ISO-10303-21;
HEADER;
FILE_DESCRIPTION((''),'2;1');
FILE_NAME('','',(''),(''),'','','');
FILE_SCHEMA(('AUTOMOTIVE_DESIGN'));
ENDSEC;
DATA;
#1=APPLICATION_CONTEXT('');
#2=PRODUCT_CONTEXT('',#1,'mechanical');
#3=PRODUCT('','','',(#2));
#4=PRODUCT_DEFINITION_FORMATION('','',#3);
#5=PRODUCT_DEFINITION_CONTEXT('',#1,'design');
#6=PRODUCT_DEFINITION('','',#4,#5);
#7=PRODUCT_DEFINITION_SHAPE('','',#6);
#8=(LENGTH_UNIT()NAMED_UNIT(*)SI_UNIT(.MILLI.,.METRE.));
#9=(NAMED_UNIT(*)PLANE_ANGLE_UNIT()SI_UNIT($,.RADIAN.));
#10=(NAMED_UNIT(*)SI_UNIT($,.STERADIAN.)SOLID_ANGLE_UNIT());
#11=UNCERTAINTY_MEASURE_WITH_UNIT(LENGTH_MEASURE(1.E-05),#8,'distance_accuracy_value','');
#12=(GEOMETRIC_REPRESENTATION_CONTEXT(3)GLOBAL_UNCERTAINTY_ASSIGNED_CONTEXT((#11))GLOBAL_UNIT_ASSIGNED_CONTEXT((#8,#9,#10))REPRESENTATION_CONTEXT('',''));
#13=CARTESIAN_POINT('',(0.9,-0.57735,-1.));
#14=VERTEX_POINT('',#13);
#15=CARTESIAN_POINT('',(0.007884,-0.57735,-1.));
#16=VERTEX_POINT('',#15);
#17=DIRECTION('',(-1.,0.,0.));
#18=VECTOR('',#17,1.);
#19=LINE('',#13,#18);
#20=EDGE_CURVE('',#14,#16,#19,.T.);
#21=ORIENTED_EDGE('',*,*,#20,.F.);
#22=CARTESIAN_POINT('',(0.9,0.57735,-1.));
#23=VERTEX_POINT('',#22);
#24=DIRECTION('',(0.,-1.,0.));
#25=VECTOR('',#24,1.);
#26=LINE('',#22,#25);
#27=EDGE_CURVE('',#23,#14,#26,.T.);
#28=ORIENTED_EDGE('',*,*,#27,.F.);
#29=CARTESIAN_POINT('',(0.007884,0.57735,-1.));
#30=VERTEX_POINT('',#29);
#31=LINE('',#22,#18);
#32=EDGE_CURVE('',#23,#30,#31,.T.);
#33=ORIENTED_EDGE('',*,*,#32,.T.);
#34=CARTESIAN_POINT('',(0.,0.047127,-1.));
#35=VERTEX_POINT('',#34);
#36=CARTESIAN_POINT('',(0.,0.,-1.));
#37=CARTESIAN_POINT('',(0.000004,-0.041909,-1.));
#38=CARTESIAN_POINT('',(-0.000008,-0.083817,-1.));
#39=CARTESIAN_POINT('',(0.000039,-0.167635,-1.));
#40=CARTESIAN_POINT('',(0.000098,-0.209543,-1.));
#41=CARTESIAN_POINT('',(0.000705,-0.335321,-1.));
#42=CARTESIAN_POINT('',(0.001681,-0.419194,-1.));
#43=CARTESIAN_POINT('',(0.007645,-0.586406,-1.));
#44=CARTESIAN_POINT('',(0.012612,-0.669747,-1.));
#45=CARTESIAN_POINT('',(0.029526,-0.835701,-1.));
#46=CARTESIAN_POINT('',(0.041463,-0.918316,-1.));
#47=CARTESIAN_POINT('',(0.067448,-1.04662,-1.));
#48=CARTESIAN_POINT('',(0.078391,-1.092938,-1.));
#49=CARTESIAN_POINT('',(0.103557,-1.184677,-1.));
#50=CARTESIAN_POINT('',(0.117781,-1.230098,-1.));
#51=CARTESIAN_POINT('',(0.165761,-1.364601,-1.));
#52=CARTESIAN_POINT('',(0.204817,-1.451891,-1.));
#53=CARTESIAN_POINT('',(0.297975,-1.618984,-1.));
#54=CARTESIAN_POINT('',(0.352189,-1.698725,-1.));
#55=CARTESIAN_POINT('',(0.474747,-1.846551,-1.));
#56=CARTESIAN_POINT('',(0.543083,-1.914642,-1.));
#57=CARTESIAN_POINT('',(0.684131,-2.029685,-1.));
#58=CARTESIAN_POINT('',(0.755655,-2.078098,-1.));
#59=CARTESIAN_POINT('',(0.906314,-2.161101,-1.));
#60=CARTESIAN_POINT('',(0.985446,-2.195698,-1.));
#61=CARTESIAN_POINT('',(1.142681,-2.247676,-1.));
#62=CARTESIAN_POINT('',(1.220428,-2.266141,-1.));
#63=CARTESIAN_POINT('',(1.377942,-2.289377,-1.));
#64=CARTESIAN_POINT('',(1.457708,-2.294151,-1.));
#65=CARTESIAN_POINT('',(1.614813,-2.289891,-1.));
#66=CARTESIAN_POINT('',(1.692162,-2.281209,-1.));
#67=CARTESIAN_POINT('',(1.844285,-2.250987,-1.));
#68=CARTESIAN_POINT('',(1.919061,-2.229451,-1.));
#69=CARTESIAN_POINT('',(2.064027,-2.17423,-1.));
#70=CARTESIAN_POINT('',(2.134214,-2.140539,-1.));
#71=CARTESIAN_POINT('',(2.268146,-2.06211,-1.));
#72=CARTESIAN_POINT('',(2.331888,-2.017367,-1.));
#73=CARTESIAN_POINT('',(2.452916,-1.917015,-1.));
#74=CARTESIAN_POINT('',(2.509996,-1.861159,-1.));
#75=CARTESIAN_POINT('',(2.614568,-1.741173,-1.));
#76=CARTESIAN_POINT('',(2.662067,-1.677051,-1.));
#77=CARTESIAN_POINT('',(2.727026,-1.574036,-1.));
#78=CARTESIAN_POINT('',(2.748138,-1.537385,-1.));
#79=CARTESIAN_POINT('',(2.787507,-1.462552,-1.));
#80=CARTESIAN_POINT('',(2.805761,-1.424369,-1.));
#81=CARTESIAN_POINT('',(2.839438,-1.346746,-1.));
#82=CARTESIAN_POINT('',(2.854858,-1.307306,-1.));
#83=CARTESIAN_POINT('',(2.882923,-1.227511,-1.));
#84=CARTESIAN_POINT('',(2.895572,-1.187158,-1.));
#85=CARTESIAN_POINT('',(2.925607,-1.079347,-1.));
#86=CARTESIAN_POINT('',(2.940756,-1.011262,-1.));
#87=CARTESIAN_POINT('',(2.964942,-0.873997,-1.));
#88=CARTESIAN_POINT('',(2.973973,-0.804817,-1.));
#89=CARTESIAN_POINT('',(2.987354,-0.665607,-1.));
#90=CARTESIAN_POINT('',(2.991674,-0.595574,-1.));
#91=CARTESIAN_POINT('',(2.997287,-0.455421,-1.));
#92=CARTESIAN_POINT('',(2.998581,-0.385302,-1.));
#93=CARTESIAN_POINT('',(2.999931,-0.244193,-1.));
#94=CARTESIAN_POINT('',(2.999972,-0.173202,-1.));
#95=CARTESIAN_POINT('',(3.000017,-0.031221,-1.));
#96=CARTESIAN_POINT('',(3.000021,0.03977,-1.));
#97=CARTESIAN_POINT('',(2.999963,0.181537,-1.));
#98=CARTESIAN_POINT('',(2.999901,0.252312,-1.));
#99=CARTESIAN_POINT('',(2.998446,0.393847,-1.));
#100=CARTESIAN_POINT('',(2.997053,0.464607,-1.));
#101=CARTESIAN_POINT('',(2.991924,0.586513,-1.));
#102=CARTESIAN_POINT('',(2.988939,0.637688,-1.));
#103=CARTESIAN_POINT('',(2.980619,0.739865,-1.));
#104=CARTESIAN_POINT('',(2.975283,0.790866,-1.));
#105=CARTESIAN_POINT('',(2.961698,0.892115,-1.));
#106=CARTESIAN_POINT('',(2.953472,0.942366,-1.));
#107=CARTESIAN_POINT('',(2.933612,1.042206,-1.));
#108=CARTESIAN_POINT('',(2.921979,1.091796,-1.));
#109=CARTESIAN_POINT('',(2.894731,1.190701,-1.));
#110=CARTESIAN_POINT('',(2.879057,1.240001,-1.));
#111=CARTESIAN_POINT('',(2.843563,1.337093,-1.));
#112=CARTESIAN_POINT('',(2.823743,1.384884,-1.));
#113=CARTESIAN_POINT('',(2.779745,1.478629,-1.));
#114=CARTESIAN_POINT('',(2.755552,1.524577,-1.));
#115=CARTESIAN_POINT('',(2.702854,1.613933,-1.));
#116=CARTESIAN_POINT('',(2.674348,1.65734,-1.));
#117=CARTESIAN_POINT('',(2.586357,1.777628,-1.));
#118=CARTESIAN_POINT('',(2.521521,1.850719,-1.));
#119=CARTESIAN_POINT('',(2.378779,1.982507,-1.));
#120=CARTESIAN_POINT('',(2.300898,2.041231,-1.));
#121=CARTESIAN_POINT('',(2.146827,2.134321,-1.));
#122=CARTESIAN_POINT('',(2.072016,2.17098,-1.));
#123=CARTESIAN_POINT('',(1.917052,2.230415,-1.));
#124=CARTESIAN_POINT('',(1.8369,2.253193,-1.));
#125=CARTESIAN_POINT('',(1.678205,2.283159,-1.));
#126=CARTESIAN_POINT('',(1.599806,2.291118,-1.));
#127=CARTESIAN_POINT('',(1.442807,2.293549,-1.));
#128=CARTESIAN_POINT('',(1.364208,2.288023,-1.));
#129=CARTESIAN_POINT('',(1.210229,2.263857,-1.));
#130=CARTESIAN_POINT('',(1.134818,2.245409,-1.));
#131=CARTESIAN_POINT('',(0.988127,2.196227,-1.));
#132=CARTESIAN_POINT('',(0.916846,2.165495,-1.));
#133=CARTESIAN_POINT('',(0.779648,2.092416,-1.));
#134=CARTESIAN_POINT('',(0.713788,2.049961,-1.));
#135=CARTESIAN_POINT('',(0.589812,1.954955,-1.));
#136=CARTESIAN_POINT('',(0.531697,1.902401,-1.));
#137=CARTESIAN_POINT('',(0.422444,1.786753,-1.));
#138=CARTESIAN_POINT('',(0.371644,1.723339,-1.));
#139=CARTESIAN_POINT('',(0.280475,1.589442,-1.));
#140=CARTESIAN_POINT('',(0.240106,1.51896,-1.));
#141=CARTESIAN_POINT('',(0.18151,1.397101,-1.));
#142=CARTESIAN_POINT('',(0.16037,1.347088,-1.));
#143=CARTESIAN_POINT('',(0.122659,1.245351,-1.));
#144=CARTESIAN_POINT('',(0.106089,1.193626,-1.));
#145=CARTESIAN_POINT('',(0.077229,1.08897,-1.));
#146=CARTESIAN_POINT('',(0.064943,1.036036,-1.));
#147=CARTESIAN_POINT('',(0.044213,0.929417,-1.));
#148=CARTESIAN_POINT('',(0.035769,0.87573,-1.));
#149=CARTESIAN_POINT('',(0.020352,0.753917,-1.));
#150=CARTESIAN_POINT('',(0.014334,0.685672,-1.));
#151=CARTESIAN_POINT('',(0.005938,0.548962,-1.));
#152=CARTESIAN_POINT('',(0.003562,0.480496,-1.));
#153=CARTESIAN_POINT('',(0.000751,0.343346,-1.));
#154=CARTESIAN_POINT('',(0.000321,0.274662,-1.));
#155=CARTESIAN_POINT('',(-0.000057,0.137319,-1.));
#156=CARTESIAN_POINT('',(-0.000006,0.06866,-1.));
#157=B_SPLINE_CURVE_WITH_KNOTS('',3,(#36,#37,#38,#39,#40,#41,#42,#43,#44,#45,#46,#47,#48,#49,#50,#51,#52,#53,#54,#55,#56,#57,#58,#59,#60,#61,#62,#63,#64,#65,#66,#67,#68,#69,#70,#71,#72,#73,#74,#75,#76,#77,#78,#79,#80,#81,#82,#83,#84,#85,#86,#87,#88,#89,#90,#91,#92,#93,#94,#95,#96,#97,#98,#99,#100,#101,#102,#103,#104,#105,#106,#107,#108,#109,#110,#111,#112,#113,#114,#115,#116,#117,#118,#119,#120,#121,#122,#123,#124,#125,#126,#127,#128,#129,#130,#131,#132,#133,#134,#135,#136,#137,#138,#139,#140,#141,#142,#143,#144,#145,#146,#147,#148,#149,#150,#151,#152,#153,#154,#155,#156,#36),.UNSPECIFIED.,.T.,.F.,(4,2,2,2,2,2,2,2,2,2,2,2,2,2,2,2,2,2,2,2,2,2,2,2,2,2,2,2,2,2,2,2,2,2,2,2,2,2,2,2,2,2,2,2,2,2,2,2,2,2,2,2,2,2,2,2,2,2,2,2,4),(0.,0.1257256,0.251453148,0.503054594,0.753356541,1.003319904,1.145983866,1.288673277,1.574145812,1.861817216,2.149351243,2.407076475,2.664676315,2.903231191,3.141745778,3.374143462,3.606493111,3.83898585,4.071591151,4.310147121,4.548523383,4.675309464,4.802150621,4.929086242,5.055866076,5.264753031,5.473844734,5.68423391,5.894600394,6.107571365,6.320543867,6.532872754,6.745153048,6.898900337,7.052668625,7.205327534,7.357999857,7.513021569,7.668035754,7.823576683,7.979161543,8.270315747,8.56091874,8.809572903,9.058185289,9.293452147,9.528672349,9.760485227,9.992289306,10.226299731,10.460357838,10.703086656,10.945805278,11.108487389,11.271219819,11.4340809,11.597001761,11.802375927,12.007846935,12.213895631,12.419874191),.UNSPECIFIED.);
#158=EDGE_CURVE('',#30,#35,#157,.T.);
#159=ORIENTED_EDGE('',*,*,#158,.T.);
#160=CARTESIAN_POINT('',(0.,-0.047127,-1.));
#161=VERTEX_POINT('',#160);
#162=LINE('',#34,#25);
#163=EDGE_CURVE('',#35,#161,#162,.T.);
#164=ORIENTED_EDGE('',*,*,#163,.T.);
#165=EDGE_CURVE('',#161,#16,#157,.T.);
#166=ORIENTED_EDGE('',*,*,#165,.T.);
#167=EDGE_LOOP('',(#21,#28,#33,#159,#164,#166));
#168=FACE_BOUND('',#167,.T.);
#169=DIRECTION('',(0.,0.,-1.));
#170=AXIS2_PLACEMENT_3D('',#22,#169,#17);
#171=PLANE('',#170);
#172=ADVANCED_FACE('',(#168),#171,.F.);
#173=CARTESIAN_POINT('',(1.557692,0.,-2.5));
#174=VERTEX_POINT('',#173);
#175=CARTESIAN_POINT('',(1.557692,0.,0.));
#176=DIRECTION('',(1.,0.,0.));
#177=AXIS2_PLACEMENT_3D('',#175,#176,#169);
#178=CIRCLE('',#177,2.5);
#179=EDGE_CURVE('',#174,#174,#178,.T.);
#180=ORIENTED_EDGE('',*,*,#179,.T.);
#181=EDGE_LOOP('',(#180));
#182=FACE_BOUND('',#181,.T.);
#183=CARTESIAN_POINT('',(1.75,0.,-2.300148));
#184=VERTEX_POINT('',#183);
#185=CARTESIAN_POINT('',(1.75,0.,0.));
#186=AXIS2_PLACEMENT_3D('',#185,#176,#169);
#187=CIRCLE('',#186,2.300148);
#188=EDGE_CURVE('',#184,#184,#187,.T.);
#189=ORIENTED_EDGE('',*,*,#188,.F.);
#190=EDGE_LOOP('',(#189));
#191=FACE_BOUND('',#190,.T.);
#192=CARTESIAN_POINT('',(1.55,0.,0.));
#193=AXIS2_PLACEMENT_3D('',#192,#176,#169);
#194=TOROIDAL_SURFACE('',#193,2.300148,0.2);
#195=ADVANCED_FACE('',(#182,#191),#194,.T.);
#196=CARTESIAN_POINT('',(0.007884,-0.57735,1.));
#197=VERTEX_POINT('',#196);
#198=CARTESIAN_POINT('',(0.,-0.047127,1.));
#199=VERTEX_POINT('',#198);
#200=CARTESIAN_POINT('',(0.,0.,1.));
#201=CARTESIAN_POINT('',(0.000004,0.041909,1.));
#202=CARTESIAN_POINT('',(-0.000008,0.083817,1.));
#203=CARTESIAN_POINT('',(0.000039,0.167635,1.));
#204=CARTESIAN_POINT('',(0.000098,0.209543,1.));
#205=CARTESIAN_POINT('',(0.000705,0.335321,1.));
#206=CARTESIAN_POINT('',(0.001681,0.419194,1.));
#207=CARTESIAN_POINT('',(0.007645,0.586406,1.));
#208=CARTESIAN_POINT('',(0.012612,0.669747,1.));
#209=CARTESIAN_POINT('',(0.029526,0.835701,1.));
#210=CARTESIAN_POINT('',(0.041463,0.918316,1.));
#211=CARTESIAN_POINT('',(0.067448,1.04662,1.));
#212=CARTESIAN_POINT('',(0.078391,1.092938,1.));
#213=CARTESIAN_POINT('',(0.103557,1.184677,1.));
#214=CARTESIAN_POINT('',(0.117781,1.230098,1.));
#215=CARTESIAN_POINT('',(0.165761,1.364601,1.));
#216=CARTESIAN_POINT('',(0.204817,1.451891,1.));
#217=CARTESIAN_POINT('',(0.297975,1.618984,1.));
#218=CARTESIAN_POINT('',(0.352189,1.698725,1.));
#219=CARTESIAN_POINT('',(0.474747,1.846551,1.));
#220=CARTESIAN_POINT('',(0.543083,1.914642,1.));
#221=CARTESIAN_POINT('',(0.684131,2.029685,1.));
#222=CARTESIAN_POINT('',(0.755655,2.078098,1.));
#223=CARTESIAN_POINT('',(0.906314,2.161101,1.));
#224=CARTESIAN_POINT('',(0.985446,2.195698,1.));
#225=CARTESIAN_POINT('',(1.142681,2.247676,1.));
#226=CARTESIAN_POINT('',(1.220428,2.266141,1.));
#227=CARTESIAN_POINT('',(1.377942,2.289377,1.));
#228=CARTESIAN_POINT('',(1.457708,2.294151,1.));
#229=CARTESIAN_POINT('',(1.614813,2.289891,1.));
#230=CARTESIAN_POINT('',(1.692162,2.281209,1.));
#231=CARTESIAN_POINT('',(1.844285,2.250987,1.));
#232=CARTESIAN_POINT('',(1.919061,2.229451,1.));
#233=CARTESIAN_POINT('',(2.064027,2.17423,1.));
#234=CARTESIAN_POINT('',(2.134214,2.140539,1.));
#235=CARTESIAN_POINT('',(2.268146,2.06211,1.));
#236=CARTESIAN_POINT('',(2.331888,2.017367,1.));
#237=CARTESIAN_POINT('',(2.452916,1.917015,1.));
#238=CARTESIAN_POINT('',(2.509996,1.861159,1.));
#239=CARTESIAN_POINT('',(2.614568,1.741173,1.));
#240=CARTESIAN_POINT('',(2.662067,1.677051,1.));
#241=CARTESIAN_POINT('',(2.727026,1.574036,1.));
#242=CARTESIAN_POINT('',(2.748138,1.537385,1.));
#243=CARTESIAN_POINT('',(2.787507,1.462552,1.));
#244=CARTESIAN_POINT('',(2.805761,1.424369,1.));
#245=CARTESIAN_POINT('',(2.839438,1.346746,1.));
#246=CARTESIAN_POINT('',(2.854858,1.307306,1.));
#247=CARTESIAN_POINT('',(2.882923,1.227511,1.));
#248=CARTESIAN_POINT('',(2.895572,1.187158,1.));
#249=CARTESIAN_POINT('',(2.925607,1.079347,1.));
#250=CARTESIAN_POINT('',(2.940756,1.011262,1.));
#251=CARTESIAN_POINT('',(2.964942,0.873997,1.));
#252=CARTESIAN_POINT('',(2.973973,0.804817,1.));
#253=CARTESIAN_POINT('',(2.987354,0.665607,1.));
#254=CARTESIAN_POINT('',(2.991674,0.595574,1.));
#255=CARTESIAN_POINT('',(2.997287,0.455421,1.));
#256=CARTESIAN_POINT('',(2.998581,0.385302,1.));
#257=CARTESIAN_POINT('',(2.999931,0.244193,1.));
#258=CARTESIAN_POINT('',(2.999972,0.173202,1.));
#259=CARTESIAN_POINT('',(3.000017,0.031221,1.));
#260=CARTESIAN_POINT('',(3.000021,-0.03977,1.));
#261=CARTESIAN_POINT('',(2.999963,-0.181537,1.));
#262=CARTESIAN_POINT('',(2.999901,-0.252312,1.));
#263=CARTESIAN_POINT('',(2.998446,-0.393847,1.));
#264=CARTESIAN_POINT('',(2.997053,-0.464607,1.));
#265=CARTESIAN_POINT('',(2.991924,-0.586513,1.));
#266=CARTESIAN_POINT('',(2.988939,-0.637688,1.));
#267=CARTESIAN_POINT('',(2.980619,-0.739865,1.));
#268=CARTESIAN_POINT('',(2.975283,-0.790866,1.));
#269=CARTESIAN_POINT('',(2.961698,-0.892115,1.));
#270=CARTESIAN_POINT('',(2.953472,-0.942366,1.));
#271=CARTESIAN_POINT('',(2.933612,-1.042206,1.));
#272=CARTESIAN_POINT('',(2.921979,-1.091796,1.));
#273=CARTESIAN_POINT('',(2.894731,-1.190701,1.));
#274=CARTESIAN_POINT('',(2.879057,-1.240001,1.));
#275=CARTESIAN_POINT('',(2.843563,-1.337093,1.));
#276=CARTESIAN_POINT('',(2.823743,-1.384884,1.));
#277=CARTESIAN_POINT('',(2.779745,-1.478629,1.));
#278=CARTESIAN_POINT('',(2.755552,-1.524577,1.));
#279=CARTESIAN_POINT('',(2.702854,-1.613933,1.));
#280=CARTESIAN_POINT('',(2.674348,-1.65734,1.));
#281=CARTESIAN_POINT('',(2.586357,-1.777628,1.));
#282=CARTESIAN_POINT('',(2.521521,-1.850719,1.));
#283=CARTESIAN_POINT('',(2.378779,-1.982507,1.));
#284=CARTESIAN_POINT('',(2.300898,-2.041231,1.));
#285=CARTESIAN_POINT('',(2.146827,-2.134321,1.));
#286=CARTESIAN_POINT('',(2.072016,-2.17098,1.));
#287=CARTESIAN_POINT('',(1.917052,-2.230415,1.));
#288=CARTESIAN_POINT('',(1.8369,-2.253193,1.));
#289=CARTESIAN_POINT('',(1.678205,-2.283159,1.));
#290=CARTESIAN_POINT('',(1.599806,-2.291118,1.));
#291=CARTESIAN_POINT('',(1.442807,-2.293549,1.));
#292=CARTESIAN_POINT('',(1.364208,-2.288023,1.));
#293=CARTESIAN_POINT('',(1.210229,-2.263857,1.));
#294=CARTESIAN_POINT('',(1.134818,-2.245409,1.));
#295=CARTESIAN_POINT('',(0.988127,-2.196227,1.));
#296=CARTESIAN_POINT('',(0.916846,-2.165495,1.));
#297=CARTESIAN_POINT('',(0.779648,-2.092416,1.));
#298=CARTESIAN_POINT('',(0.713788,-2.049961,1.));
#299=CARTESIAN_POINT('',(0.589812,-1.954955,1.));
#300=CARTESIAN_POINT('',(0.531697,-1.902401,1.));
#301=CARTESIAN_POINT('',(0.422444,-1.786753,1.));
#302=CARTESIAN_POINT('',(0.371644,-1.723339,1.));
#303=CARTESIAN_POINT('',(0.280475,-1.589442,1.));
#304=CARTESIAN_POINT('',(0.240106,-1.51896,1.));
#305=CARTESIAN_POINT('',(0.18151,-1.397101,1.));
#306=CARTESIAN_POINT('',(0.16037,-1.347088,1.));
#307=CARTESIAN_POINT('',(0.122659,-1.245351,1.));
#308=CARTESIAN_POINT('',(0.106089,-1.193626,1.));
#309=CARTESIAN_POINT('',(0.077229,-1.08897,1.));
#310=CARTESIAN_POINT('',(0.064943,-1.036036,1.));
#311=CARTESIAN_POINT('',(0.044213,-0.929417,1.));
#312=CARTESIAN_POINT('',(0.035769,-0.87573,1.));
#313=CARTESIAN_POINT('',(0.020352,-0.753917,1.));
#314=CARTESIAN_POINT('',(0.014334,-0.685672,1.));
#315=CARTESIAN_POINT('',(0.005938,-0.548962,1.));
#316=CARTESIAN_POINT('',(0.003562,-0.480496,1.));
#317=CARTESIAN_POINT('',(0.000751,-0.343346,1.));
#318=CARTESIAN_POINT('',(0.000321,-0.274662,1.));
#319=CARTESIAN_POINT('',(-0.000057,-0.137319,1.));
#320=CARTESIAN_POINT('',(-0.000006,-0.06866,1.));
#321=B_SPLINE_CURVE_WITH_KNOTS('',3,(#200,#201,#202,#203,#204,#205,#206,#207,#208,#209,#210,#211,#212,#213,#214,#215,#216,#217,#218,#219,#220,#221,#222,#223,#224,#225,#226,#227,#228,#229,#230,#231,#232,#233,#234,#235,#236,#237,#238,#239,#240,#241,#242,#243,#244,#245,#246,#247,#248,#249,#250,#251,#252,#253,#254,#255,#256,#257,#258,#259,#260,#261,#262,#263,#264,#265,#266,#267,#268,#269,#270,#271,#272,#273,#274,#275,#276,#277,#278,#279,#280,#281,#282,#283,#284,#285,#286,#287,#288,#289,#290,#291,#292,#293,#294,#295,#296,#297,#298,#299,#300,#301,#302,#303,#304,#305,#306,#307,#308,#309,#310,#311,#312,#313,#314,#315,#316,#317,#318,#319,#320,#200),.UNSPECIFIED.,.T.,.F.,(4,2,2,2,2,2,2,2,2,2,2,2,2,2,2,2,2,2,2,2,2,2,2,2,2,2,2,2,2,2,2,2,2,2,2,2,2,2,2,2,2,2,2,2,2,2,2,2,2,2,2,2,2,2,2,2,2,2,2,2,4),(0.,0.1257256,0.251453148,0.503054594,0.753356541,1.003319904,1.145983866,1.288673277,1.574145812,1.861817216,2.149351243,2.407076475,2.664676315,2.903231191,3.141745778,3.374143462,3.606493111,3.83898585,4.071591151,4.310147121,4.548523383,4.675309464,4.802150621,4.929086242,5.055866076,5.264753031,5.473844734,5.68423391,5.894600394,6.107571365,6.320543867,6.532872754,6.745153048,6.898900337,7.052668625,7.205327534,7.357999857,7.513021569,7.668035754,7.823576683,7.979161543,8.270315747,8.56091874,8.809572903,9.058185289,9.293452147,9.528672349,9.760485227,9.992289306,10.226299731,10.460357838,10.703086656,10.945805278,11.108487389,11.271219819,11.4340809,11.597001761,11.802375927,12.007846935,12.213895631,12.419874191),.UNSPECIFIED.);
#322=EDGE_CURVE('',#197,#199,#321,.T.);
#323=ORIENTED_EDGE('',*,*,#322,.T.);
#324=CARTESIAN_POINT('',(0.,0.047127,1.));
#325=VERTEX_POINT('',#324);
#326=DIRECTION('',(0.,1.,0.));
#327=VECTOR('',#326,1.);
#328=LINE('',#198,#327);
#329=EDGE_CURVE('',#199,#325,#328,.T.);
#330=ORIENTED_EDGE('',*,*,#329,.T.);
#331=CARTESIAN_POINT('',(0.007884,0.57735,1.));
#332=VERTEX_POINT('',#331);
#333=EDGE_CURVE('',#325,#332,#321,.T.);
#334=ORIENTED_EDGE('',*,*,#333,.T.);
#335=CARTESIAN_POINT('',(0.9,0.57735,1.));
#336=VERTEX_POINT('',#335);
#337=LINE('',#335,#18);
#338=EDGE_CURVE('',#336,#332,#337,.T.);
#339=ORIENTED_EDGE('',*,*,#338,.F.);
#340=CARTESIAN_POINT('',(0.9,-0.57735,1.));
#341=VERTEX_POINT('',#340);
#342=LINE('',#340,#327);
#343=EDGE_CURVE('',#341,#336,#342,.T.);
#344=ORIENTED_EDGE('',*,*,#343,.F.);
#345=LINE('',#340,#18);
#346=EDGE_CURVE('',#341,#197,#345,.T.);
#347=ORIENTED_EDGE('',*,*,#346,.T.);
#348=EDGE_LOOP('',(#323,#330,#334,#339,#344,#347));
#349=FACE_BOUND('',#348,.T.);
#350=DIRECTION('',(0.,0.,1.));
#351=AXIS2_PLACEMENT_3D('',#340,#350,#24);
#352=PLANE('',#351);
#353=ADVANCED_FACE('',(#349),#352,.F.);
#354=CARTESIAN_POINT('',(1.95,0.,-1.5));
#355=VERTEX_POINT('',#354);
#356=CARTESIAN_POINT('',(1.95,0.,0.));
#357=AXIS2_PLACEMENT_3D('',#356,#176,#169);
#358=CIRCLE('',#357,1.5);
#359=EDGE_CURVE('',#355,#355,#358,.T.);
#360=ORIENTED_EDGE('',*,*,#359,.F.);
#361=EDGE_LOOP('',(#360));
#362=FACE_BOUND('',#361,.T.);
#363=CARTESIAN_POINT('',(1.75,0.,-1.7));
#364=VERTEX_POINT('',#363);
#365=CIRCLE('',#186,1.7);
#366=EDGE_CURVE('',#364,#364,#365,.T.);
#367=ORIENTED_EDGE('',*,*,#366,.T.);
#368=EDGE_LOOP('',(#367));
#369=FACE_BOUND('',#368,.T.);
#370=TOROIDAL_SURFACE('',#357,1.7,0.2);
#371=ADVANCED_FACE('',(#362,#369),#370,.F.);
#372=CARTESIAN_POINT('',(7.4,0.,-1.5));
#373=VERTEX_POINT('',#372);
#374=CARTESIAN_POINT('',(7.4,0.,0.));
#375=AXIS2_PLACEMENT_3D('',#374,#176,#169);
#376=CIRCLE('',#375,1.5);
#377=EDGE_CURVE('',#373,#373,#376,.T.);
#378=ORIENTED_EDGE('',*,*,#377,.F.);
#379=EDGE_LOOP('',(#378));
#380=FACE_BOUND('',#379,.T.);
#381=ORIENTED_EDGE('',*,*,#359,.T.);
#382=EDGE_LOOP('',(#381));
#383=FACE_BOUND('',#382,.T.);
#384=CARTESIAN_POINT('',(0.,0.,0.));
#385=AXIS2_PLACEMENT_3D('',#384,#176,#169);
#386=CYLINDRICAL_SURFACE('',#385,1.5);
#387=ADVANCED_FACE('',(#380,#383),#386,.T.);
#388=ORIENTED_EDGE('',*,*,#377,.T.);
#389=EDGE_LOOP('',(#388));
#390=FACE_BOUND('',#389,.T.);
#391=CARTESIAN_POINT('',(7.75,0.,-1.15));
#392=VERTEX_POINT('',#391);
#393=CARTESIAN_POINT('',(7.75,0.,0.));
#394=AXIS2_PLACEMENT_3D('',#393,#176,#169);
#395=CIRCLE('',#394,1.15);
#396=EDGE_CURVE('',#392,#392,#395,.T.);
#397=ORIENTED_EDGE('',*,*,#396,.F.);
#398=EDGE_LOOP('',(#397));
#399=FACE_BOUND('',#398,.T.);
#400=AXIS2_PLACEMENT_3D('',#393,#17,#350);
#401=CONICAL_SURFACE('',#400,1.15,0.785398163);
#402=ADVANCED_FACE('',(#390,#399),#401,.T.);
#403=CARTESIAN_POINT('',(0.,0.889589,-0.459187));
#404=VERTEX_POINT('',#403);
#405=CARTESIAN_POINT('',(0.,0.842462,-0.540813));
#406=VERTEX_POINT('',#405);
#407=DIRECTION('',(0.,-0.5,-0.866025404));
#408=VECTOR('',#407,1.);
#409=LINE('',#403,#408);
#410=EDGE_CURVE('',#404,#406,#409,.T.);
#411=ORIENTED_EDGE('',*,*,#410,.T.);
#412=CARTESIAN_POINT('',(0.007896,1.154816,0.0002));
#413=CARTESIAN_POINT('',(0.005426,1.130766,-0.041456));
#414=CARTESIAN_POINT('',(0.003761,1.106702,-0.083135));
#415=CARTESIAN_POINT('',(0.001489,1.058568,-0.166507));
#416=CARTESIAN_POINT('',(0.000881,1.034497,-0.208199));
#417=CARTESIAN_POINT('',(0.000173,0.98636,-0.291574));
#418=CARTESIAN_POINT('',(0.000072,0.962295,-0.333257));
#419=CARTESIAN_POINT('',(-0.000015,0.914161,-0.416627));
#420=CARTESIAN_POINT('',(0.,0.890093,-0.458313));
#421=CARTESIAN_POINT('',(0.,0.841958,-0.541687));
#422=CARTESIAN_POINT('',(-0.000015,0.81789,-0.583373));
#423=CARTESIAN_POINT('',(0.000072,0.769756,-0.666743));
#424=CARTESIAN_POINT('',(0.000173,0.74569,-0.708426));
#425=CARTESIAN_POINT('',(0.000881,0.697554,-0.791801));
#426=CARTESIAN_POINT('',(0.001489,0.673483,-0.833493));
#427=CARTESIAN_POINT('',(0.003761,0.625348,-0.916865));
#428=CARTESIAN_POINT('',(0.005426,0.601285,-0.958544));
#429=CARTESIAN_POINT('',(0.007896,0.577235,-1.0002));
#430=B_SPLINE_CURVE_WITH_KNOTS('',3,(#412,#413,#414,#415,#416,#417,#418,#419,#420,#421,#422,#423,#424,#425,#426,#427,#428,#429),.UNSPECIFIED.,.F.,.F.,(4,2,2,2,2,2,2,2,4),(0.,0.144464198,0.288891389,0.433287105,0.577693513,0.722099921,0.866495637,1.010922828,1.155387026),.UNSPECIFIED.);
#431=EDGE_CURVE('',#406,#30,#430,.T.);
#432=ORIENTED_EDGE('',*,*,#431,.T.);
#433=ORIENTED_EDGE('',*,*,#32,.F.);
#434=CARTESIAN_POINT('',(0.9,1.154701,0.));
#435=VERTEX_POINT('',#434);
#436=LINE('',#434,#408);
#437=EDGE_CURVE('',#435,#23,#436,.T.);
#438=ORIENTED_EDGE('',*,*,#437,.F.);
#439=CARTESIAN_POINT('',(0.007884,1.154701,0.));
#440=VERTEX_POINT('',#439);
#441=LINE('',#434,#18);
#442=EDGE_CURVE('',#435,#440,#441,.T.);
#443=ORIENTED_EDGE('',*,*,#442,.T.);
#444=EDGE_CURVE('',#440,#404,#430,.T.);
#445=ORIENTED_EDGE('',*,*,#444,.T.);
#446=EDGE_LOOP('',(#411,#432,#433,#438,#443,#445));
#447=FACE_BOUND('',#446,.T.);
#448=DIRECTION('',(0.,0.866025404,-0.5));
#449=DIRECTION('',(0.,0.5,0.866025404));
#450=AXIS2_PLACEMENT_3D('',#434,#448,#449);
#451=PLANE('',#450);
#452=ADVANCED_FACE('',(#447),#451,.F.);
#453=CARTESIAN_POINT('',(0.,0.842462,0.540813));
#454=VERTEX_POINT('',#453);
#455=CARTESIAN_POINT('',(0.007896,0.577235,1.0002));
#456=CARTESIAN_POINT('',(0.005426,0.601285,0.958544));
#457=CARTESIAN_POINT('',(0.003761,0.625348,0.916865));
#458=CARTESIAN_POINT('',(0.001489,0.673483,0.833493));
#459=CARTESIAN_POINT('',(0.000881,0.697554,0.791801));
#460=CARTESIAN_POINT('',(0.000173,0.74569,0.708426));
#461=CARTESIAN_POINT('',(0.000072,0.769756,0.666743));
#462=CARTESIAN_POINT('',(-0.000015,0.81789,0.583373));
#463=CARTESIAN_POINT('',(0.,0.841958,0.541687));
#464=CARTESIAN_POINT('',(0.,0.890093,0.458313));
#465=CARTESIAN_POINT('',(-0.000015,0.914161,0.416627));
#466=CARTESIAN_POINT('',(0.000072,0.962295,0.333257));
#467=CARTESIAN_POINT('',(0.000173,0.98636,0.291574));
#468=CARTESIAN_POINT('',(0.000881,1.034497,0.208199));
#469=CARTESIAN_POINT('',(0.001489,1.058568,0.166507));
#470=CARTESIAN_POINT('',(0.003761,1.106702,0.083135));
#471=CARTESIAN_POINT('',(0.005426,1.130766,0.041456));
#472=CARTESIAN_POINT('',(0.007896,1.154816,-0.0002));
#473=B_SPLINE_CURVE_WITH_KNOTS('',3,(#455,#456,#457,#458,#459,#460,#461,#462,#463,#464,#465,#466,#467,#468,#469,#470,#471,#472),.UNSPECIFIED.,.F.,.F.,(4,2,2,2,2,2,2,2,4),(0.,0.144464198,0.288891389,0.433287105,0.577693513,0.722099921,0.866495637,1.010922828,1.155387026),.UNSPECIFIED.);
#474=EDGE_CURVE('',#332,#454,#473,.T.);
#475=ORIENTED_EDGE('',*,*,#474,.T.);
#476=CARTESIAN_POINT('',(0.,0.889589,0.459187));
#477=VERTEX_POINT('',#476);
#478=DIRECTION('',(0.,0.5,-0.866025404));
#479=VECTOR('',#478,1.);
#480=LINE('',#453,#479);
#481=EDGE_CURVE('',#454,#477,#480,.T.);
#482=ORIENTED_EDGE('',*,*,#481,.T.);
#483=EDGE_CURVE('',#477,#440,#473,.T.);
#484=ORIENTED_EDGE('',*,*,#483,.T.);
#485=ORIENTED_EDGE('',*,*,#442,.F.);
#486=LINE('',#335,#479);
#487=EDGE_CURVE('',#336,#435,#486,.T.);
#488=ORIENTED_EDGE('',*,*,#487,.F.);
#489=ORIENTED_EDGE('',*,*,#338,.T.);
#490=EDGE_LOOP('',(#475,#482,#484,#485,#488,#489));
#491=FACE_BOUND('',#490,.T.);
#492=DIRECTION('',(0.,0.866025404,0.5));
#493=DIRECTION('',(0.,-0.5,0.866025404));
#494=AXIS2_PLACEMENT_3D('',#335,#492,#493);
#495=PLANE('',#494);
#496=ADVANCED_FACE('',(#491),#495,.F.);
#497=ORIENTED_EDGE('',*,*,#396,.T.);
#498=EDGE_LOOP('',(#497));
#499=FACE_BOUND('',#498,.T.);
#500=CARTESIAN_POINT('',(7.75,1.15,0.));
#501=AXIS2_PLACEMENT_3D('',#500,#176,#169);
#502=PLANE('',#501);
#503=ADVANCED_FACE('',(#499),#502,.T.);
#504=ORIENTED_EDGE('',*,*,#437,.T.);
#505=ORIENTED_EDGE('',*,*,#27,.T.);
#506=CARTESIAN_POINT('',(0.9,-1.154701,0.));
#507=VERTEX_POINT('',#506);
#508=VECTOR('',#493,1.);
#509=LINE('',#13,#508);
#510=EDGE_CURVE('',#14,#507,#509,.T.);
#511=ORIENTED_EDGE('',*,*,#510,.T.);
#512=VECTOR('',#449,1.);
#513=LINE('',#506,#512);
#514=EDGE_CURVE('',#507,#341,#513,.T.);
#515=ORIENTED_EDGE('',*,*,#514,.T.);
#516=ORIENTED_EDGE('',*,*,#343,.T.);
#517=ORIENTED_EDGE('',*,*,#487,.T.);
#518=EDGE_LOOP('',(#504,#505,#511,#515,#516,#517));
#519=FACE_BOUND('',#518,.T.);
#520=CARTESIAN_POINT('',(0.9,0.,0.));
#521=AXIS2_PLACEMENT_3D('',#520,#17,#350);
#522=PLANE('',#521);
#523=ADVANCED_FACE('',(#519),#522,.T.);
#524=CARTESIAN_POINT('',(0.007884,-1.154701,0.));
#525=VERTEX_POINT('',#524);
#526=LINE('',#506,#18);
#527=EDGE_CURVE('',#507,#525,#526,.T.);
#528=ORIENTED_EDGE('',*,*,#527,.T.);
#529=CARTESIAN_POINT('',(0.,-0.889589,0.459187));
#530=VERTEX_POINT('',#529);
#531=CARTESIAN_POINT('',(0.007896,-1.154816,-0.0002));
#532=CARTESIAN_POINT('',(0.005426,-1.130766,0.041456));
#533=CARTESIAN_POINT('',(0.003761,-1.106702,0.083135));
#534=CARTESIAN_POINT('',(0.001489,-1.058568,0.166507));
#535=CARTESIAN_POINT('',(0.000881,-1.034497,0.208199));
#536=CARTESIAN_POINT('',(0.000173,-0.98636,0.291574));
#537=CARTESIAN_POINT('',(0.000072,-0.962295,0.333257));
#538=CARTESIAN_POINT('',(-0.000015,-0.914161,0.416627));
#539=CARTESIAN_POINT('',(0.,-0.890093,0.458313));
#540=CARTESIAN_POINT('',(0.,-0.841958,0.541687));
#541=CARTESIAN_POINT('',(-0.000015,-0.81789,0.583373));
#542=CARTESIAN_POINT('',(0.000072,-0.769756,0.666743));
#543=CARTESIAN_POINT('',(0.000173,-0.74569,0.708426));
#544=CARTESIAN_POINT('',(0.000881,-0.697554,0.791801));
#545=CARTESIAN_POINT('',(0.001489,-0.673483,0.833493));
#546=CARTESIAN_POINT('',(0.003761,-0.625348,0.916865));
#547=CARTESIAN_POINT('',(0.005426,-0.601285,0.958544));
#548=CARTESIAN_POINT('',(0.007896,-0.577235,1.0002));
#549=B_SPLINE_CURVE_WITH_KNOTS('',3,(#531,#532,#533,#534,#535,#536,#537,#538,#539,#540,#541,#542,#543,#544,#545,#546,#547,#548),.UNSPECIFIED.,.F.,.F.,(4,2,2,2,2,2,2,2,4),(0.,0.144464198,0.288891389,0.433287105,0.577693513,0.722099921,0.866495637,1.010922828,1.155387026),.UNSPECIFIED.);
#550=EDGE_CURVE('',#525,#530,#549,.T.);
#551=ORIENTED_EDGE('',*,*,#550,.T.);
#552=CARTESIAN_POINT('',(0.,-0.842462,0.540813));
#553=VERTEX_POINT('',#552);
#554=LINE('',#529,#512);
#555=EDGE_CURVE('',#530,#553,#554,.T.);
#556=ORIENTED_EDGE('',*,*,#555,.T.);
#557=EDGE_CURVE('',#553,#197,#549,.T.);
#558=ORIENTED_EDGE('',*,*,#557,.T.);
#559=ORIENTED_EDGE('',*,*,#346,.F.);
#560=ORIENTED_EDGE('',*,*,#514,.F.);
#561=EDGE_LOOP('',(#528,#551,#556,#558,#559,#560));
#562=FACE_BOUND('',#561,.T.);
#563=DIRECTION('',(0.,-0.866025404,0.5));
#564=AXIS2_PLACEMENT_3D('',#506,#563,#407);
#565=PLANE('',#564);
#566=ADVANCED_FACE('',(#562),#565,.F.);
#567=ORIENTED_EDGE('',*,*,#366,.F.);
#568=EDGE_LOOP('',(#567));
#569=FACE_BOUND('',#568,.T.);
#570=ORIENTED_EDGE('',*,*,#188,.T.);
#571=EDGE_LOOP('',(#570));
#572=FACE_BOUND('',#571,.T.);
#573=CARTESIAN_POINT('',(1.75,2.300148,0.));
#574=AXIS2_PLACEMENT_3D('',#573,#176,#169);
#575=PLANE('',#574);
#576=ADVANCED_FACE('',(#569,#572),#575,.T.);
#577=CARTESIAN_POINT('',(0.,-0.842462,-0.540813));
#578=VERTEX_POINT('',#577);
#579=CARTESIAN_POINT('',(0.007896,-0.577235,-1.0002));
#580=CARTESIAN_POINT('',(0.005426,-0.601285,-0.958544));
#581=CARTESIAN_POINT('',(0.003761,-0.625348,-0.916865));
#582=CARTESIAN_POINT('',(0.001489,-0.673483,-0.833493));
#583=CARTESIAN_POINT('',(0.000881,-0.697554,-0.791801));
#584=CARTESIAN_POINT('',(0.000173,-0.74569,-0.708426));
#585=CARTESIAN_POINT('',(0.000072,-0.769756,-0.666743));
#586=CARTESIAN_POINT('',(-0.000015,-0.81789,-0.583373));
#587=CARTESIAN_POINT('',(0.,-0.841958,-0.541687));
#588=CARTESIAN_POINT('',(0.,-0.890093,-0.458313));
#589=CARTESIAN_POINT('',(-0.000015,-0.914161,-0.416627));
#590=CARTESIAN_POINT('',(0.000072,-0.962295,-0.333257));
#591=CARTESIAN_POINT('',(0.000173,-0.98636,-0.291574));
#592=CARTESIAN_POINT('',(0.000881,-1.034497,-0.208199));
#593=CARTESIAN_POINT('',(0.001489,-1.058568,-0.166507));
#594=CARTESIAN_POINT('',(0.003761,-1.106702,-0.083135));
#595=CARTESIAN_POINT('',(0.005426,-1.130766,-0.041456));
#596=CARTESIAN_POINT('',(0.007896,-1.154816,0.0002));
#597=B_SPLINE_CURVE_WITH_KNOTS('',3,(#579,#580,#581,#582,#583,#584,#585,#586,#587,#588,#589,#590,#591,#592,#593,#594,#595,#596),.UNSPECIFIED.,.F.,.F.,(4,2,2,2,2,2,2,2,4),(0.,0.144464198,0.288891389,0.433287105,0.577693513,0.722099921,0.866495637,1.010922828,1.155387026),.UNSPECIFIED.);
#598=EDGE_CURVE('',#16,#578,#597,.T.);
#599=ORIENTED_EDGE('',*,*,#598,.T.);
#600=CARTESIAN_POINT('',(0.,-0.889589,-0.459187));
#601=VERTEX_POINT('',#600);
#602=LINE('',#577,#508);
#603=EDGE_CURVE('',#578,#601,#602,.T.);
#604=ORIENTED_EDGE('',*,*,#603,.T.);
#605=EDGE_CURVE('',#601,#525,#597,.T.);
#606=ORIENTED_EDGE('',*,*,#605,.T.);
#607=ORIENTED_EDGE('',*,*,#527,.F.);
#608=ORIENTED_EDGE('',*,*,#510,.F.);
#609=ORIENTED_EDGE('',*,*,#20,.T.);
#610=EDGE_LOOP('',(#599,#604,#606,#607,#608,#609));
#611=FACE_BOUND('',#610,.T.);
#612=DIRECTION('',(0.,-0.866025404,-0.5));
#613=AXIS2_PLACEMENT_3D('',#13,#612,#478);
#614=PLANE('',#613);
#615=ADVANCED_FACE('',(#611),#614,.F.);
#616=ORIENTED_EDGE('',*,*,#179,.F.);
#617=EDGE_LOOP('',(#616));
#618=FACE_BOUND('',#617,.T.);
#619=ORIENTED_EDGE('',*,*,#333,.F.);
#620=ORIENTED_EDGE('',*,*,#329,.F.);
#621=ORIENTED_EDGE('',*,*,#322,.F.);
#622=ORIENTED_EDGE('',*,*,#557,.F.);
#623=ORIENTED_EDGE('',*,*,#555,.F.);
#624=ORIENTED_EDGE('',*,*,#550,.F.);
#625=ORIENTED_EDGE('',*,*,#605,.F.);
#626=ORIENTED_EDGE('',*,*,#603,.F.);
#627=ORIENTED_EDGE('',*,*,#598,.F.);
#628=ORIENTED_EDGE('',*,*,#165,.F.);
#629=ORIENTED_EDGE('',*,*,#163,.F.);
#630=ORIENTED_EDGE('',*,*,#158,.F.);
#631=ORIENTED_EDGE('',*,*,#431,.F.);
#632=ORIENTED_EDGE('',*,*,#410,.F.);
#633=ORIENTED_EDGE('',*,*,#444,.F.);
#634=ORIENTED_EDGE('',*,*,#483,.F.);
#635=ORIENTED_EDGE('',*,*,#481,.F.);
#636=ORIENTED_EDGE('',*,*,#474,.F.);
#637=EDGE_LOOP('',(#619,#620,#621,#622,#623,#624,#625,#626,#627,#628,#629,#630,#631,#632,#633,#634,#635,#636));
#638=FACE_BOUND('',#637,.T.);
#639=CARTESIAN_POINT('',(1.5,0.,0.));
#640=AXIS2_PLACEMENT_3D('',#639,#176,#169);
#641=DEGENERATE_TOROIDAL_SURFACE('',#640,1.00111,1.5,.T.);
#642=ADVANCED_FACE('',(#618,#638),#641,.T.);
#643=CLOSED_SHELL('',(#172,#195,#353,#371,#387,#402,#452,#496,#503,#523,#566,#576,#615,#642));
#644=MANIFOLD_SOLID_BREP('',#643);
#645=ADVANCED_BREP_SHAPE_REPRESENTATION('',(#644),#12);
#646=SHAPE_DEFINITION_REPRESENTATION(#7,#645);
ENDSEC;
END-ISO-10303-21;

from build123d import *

# Parameters (mm, degrees)
CUT_EXTRUDE1_DEPTH = 0.9


with BuildPart() as part:
    # Sketch1 → Revolve1 (revolve)
    with BuildSketch(Plane.XY):
        with BuildLine():
            Line((0, 0), (0, 1.001109878))
            ThreePointArc((0, 1.001109878), (0.459937132, 2.081974916), (1.557692308, 2.5))
            ThreePointArc((1.557692308, 2.5), (1.694115338, 2.438823033), (1.75, 2.300147984))
            Line((1.75, 2.300147984), (1.75, 1.7))
            ThreePointArc((1.75, 1.7), (1.808578644, 1.558578644), (1.95, 1.5))
            Line((1.95, 1.5), (7.4, 1.5))
            Line((7.4, 1.5), (7.75, 1.15))
            Line((7.75, 1.15), (7.75, 0))
            Line((7.75, 0), (0, 0))
        make_face()
    revolve(axis=Axis((0, 0, 0), (-1, 0, 0)))

    # Sketch2 → Cut-Extrude1 (cut)
    with BuildSketch(Plane.ZY):
        Polygon((1, -0.577350269), (1, 0.577350269), (0, 1.154700538), (-1, 0.577350269), (-1, -0.577350269), (0, -1.154700538), align=None)
    extrude(amount=-CUT_EXTRUDE1_DEPTH, mode=Mode.SUBTRACT)


solid = part.part
